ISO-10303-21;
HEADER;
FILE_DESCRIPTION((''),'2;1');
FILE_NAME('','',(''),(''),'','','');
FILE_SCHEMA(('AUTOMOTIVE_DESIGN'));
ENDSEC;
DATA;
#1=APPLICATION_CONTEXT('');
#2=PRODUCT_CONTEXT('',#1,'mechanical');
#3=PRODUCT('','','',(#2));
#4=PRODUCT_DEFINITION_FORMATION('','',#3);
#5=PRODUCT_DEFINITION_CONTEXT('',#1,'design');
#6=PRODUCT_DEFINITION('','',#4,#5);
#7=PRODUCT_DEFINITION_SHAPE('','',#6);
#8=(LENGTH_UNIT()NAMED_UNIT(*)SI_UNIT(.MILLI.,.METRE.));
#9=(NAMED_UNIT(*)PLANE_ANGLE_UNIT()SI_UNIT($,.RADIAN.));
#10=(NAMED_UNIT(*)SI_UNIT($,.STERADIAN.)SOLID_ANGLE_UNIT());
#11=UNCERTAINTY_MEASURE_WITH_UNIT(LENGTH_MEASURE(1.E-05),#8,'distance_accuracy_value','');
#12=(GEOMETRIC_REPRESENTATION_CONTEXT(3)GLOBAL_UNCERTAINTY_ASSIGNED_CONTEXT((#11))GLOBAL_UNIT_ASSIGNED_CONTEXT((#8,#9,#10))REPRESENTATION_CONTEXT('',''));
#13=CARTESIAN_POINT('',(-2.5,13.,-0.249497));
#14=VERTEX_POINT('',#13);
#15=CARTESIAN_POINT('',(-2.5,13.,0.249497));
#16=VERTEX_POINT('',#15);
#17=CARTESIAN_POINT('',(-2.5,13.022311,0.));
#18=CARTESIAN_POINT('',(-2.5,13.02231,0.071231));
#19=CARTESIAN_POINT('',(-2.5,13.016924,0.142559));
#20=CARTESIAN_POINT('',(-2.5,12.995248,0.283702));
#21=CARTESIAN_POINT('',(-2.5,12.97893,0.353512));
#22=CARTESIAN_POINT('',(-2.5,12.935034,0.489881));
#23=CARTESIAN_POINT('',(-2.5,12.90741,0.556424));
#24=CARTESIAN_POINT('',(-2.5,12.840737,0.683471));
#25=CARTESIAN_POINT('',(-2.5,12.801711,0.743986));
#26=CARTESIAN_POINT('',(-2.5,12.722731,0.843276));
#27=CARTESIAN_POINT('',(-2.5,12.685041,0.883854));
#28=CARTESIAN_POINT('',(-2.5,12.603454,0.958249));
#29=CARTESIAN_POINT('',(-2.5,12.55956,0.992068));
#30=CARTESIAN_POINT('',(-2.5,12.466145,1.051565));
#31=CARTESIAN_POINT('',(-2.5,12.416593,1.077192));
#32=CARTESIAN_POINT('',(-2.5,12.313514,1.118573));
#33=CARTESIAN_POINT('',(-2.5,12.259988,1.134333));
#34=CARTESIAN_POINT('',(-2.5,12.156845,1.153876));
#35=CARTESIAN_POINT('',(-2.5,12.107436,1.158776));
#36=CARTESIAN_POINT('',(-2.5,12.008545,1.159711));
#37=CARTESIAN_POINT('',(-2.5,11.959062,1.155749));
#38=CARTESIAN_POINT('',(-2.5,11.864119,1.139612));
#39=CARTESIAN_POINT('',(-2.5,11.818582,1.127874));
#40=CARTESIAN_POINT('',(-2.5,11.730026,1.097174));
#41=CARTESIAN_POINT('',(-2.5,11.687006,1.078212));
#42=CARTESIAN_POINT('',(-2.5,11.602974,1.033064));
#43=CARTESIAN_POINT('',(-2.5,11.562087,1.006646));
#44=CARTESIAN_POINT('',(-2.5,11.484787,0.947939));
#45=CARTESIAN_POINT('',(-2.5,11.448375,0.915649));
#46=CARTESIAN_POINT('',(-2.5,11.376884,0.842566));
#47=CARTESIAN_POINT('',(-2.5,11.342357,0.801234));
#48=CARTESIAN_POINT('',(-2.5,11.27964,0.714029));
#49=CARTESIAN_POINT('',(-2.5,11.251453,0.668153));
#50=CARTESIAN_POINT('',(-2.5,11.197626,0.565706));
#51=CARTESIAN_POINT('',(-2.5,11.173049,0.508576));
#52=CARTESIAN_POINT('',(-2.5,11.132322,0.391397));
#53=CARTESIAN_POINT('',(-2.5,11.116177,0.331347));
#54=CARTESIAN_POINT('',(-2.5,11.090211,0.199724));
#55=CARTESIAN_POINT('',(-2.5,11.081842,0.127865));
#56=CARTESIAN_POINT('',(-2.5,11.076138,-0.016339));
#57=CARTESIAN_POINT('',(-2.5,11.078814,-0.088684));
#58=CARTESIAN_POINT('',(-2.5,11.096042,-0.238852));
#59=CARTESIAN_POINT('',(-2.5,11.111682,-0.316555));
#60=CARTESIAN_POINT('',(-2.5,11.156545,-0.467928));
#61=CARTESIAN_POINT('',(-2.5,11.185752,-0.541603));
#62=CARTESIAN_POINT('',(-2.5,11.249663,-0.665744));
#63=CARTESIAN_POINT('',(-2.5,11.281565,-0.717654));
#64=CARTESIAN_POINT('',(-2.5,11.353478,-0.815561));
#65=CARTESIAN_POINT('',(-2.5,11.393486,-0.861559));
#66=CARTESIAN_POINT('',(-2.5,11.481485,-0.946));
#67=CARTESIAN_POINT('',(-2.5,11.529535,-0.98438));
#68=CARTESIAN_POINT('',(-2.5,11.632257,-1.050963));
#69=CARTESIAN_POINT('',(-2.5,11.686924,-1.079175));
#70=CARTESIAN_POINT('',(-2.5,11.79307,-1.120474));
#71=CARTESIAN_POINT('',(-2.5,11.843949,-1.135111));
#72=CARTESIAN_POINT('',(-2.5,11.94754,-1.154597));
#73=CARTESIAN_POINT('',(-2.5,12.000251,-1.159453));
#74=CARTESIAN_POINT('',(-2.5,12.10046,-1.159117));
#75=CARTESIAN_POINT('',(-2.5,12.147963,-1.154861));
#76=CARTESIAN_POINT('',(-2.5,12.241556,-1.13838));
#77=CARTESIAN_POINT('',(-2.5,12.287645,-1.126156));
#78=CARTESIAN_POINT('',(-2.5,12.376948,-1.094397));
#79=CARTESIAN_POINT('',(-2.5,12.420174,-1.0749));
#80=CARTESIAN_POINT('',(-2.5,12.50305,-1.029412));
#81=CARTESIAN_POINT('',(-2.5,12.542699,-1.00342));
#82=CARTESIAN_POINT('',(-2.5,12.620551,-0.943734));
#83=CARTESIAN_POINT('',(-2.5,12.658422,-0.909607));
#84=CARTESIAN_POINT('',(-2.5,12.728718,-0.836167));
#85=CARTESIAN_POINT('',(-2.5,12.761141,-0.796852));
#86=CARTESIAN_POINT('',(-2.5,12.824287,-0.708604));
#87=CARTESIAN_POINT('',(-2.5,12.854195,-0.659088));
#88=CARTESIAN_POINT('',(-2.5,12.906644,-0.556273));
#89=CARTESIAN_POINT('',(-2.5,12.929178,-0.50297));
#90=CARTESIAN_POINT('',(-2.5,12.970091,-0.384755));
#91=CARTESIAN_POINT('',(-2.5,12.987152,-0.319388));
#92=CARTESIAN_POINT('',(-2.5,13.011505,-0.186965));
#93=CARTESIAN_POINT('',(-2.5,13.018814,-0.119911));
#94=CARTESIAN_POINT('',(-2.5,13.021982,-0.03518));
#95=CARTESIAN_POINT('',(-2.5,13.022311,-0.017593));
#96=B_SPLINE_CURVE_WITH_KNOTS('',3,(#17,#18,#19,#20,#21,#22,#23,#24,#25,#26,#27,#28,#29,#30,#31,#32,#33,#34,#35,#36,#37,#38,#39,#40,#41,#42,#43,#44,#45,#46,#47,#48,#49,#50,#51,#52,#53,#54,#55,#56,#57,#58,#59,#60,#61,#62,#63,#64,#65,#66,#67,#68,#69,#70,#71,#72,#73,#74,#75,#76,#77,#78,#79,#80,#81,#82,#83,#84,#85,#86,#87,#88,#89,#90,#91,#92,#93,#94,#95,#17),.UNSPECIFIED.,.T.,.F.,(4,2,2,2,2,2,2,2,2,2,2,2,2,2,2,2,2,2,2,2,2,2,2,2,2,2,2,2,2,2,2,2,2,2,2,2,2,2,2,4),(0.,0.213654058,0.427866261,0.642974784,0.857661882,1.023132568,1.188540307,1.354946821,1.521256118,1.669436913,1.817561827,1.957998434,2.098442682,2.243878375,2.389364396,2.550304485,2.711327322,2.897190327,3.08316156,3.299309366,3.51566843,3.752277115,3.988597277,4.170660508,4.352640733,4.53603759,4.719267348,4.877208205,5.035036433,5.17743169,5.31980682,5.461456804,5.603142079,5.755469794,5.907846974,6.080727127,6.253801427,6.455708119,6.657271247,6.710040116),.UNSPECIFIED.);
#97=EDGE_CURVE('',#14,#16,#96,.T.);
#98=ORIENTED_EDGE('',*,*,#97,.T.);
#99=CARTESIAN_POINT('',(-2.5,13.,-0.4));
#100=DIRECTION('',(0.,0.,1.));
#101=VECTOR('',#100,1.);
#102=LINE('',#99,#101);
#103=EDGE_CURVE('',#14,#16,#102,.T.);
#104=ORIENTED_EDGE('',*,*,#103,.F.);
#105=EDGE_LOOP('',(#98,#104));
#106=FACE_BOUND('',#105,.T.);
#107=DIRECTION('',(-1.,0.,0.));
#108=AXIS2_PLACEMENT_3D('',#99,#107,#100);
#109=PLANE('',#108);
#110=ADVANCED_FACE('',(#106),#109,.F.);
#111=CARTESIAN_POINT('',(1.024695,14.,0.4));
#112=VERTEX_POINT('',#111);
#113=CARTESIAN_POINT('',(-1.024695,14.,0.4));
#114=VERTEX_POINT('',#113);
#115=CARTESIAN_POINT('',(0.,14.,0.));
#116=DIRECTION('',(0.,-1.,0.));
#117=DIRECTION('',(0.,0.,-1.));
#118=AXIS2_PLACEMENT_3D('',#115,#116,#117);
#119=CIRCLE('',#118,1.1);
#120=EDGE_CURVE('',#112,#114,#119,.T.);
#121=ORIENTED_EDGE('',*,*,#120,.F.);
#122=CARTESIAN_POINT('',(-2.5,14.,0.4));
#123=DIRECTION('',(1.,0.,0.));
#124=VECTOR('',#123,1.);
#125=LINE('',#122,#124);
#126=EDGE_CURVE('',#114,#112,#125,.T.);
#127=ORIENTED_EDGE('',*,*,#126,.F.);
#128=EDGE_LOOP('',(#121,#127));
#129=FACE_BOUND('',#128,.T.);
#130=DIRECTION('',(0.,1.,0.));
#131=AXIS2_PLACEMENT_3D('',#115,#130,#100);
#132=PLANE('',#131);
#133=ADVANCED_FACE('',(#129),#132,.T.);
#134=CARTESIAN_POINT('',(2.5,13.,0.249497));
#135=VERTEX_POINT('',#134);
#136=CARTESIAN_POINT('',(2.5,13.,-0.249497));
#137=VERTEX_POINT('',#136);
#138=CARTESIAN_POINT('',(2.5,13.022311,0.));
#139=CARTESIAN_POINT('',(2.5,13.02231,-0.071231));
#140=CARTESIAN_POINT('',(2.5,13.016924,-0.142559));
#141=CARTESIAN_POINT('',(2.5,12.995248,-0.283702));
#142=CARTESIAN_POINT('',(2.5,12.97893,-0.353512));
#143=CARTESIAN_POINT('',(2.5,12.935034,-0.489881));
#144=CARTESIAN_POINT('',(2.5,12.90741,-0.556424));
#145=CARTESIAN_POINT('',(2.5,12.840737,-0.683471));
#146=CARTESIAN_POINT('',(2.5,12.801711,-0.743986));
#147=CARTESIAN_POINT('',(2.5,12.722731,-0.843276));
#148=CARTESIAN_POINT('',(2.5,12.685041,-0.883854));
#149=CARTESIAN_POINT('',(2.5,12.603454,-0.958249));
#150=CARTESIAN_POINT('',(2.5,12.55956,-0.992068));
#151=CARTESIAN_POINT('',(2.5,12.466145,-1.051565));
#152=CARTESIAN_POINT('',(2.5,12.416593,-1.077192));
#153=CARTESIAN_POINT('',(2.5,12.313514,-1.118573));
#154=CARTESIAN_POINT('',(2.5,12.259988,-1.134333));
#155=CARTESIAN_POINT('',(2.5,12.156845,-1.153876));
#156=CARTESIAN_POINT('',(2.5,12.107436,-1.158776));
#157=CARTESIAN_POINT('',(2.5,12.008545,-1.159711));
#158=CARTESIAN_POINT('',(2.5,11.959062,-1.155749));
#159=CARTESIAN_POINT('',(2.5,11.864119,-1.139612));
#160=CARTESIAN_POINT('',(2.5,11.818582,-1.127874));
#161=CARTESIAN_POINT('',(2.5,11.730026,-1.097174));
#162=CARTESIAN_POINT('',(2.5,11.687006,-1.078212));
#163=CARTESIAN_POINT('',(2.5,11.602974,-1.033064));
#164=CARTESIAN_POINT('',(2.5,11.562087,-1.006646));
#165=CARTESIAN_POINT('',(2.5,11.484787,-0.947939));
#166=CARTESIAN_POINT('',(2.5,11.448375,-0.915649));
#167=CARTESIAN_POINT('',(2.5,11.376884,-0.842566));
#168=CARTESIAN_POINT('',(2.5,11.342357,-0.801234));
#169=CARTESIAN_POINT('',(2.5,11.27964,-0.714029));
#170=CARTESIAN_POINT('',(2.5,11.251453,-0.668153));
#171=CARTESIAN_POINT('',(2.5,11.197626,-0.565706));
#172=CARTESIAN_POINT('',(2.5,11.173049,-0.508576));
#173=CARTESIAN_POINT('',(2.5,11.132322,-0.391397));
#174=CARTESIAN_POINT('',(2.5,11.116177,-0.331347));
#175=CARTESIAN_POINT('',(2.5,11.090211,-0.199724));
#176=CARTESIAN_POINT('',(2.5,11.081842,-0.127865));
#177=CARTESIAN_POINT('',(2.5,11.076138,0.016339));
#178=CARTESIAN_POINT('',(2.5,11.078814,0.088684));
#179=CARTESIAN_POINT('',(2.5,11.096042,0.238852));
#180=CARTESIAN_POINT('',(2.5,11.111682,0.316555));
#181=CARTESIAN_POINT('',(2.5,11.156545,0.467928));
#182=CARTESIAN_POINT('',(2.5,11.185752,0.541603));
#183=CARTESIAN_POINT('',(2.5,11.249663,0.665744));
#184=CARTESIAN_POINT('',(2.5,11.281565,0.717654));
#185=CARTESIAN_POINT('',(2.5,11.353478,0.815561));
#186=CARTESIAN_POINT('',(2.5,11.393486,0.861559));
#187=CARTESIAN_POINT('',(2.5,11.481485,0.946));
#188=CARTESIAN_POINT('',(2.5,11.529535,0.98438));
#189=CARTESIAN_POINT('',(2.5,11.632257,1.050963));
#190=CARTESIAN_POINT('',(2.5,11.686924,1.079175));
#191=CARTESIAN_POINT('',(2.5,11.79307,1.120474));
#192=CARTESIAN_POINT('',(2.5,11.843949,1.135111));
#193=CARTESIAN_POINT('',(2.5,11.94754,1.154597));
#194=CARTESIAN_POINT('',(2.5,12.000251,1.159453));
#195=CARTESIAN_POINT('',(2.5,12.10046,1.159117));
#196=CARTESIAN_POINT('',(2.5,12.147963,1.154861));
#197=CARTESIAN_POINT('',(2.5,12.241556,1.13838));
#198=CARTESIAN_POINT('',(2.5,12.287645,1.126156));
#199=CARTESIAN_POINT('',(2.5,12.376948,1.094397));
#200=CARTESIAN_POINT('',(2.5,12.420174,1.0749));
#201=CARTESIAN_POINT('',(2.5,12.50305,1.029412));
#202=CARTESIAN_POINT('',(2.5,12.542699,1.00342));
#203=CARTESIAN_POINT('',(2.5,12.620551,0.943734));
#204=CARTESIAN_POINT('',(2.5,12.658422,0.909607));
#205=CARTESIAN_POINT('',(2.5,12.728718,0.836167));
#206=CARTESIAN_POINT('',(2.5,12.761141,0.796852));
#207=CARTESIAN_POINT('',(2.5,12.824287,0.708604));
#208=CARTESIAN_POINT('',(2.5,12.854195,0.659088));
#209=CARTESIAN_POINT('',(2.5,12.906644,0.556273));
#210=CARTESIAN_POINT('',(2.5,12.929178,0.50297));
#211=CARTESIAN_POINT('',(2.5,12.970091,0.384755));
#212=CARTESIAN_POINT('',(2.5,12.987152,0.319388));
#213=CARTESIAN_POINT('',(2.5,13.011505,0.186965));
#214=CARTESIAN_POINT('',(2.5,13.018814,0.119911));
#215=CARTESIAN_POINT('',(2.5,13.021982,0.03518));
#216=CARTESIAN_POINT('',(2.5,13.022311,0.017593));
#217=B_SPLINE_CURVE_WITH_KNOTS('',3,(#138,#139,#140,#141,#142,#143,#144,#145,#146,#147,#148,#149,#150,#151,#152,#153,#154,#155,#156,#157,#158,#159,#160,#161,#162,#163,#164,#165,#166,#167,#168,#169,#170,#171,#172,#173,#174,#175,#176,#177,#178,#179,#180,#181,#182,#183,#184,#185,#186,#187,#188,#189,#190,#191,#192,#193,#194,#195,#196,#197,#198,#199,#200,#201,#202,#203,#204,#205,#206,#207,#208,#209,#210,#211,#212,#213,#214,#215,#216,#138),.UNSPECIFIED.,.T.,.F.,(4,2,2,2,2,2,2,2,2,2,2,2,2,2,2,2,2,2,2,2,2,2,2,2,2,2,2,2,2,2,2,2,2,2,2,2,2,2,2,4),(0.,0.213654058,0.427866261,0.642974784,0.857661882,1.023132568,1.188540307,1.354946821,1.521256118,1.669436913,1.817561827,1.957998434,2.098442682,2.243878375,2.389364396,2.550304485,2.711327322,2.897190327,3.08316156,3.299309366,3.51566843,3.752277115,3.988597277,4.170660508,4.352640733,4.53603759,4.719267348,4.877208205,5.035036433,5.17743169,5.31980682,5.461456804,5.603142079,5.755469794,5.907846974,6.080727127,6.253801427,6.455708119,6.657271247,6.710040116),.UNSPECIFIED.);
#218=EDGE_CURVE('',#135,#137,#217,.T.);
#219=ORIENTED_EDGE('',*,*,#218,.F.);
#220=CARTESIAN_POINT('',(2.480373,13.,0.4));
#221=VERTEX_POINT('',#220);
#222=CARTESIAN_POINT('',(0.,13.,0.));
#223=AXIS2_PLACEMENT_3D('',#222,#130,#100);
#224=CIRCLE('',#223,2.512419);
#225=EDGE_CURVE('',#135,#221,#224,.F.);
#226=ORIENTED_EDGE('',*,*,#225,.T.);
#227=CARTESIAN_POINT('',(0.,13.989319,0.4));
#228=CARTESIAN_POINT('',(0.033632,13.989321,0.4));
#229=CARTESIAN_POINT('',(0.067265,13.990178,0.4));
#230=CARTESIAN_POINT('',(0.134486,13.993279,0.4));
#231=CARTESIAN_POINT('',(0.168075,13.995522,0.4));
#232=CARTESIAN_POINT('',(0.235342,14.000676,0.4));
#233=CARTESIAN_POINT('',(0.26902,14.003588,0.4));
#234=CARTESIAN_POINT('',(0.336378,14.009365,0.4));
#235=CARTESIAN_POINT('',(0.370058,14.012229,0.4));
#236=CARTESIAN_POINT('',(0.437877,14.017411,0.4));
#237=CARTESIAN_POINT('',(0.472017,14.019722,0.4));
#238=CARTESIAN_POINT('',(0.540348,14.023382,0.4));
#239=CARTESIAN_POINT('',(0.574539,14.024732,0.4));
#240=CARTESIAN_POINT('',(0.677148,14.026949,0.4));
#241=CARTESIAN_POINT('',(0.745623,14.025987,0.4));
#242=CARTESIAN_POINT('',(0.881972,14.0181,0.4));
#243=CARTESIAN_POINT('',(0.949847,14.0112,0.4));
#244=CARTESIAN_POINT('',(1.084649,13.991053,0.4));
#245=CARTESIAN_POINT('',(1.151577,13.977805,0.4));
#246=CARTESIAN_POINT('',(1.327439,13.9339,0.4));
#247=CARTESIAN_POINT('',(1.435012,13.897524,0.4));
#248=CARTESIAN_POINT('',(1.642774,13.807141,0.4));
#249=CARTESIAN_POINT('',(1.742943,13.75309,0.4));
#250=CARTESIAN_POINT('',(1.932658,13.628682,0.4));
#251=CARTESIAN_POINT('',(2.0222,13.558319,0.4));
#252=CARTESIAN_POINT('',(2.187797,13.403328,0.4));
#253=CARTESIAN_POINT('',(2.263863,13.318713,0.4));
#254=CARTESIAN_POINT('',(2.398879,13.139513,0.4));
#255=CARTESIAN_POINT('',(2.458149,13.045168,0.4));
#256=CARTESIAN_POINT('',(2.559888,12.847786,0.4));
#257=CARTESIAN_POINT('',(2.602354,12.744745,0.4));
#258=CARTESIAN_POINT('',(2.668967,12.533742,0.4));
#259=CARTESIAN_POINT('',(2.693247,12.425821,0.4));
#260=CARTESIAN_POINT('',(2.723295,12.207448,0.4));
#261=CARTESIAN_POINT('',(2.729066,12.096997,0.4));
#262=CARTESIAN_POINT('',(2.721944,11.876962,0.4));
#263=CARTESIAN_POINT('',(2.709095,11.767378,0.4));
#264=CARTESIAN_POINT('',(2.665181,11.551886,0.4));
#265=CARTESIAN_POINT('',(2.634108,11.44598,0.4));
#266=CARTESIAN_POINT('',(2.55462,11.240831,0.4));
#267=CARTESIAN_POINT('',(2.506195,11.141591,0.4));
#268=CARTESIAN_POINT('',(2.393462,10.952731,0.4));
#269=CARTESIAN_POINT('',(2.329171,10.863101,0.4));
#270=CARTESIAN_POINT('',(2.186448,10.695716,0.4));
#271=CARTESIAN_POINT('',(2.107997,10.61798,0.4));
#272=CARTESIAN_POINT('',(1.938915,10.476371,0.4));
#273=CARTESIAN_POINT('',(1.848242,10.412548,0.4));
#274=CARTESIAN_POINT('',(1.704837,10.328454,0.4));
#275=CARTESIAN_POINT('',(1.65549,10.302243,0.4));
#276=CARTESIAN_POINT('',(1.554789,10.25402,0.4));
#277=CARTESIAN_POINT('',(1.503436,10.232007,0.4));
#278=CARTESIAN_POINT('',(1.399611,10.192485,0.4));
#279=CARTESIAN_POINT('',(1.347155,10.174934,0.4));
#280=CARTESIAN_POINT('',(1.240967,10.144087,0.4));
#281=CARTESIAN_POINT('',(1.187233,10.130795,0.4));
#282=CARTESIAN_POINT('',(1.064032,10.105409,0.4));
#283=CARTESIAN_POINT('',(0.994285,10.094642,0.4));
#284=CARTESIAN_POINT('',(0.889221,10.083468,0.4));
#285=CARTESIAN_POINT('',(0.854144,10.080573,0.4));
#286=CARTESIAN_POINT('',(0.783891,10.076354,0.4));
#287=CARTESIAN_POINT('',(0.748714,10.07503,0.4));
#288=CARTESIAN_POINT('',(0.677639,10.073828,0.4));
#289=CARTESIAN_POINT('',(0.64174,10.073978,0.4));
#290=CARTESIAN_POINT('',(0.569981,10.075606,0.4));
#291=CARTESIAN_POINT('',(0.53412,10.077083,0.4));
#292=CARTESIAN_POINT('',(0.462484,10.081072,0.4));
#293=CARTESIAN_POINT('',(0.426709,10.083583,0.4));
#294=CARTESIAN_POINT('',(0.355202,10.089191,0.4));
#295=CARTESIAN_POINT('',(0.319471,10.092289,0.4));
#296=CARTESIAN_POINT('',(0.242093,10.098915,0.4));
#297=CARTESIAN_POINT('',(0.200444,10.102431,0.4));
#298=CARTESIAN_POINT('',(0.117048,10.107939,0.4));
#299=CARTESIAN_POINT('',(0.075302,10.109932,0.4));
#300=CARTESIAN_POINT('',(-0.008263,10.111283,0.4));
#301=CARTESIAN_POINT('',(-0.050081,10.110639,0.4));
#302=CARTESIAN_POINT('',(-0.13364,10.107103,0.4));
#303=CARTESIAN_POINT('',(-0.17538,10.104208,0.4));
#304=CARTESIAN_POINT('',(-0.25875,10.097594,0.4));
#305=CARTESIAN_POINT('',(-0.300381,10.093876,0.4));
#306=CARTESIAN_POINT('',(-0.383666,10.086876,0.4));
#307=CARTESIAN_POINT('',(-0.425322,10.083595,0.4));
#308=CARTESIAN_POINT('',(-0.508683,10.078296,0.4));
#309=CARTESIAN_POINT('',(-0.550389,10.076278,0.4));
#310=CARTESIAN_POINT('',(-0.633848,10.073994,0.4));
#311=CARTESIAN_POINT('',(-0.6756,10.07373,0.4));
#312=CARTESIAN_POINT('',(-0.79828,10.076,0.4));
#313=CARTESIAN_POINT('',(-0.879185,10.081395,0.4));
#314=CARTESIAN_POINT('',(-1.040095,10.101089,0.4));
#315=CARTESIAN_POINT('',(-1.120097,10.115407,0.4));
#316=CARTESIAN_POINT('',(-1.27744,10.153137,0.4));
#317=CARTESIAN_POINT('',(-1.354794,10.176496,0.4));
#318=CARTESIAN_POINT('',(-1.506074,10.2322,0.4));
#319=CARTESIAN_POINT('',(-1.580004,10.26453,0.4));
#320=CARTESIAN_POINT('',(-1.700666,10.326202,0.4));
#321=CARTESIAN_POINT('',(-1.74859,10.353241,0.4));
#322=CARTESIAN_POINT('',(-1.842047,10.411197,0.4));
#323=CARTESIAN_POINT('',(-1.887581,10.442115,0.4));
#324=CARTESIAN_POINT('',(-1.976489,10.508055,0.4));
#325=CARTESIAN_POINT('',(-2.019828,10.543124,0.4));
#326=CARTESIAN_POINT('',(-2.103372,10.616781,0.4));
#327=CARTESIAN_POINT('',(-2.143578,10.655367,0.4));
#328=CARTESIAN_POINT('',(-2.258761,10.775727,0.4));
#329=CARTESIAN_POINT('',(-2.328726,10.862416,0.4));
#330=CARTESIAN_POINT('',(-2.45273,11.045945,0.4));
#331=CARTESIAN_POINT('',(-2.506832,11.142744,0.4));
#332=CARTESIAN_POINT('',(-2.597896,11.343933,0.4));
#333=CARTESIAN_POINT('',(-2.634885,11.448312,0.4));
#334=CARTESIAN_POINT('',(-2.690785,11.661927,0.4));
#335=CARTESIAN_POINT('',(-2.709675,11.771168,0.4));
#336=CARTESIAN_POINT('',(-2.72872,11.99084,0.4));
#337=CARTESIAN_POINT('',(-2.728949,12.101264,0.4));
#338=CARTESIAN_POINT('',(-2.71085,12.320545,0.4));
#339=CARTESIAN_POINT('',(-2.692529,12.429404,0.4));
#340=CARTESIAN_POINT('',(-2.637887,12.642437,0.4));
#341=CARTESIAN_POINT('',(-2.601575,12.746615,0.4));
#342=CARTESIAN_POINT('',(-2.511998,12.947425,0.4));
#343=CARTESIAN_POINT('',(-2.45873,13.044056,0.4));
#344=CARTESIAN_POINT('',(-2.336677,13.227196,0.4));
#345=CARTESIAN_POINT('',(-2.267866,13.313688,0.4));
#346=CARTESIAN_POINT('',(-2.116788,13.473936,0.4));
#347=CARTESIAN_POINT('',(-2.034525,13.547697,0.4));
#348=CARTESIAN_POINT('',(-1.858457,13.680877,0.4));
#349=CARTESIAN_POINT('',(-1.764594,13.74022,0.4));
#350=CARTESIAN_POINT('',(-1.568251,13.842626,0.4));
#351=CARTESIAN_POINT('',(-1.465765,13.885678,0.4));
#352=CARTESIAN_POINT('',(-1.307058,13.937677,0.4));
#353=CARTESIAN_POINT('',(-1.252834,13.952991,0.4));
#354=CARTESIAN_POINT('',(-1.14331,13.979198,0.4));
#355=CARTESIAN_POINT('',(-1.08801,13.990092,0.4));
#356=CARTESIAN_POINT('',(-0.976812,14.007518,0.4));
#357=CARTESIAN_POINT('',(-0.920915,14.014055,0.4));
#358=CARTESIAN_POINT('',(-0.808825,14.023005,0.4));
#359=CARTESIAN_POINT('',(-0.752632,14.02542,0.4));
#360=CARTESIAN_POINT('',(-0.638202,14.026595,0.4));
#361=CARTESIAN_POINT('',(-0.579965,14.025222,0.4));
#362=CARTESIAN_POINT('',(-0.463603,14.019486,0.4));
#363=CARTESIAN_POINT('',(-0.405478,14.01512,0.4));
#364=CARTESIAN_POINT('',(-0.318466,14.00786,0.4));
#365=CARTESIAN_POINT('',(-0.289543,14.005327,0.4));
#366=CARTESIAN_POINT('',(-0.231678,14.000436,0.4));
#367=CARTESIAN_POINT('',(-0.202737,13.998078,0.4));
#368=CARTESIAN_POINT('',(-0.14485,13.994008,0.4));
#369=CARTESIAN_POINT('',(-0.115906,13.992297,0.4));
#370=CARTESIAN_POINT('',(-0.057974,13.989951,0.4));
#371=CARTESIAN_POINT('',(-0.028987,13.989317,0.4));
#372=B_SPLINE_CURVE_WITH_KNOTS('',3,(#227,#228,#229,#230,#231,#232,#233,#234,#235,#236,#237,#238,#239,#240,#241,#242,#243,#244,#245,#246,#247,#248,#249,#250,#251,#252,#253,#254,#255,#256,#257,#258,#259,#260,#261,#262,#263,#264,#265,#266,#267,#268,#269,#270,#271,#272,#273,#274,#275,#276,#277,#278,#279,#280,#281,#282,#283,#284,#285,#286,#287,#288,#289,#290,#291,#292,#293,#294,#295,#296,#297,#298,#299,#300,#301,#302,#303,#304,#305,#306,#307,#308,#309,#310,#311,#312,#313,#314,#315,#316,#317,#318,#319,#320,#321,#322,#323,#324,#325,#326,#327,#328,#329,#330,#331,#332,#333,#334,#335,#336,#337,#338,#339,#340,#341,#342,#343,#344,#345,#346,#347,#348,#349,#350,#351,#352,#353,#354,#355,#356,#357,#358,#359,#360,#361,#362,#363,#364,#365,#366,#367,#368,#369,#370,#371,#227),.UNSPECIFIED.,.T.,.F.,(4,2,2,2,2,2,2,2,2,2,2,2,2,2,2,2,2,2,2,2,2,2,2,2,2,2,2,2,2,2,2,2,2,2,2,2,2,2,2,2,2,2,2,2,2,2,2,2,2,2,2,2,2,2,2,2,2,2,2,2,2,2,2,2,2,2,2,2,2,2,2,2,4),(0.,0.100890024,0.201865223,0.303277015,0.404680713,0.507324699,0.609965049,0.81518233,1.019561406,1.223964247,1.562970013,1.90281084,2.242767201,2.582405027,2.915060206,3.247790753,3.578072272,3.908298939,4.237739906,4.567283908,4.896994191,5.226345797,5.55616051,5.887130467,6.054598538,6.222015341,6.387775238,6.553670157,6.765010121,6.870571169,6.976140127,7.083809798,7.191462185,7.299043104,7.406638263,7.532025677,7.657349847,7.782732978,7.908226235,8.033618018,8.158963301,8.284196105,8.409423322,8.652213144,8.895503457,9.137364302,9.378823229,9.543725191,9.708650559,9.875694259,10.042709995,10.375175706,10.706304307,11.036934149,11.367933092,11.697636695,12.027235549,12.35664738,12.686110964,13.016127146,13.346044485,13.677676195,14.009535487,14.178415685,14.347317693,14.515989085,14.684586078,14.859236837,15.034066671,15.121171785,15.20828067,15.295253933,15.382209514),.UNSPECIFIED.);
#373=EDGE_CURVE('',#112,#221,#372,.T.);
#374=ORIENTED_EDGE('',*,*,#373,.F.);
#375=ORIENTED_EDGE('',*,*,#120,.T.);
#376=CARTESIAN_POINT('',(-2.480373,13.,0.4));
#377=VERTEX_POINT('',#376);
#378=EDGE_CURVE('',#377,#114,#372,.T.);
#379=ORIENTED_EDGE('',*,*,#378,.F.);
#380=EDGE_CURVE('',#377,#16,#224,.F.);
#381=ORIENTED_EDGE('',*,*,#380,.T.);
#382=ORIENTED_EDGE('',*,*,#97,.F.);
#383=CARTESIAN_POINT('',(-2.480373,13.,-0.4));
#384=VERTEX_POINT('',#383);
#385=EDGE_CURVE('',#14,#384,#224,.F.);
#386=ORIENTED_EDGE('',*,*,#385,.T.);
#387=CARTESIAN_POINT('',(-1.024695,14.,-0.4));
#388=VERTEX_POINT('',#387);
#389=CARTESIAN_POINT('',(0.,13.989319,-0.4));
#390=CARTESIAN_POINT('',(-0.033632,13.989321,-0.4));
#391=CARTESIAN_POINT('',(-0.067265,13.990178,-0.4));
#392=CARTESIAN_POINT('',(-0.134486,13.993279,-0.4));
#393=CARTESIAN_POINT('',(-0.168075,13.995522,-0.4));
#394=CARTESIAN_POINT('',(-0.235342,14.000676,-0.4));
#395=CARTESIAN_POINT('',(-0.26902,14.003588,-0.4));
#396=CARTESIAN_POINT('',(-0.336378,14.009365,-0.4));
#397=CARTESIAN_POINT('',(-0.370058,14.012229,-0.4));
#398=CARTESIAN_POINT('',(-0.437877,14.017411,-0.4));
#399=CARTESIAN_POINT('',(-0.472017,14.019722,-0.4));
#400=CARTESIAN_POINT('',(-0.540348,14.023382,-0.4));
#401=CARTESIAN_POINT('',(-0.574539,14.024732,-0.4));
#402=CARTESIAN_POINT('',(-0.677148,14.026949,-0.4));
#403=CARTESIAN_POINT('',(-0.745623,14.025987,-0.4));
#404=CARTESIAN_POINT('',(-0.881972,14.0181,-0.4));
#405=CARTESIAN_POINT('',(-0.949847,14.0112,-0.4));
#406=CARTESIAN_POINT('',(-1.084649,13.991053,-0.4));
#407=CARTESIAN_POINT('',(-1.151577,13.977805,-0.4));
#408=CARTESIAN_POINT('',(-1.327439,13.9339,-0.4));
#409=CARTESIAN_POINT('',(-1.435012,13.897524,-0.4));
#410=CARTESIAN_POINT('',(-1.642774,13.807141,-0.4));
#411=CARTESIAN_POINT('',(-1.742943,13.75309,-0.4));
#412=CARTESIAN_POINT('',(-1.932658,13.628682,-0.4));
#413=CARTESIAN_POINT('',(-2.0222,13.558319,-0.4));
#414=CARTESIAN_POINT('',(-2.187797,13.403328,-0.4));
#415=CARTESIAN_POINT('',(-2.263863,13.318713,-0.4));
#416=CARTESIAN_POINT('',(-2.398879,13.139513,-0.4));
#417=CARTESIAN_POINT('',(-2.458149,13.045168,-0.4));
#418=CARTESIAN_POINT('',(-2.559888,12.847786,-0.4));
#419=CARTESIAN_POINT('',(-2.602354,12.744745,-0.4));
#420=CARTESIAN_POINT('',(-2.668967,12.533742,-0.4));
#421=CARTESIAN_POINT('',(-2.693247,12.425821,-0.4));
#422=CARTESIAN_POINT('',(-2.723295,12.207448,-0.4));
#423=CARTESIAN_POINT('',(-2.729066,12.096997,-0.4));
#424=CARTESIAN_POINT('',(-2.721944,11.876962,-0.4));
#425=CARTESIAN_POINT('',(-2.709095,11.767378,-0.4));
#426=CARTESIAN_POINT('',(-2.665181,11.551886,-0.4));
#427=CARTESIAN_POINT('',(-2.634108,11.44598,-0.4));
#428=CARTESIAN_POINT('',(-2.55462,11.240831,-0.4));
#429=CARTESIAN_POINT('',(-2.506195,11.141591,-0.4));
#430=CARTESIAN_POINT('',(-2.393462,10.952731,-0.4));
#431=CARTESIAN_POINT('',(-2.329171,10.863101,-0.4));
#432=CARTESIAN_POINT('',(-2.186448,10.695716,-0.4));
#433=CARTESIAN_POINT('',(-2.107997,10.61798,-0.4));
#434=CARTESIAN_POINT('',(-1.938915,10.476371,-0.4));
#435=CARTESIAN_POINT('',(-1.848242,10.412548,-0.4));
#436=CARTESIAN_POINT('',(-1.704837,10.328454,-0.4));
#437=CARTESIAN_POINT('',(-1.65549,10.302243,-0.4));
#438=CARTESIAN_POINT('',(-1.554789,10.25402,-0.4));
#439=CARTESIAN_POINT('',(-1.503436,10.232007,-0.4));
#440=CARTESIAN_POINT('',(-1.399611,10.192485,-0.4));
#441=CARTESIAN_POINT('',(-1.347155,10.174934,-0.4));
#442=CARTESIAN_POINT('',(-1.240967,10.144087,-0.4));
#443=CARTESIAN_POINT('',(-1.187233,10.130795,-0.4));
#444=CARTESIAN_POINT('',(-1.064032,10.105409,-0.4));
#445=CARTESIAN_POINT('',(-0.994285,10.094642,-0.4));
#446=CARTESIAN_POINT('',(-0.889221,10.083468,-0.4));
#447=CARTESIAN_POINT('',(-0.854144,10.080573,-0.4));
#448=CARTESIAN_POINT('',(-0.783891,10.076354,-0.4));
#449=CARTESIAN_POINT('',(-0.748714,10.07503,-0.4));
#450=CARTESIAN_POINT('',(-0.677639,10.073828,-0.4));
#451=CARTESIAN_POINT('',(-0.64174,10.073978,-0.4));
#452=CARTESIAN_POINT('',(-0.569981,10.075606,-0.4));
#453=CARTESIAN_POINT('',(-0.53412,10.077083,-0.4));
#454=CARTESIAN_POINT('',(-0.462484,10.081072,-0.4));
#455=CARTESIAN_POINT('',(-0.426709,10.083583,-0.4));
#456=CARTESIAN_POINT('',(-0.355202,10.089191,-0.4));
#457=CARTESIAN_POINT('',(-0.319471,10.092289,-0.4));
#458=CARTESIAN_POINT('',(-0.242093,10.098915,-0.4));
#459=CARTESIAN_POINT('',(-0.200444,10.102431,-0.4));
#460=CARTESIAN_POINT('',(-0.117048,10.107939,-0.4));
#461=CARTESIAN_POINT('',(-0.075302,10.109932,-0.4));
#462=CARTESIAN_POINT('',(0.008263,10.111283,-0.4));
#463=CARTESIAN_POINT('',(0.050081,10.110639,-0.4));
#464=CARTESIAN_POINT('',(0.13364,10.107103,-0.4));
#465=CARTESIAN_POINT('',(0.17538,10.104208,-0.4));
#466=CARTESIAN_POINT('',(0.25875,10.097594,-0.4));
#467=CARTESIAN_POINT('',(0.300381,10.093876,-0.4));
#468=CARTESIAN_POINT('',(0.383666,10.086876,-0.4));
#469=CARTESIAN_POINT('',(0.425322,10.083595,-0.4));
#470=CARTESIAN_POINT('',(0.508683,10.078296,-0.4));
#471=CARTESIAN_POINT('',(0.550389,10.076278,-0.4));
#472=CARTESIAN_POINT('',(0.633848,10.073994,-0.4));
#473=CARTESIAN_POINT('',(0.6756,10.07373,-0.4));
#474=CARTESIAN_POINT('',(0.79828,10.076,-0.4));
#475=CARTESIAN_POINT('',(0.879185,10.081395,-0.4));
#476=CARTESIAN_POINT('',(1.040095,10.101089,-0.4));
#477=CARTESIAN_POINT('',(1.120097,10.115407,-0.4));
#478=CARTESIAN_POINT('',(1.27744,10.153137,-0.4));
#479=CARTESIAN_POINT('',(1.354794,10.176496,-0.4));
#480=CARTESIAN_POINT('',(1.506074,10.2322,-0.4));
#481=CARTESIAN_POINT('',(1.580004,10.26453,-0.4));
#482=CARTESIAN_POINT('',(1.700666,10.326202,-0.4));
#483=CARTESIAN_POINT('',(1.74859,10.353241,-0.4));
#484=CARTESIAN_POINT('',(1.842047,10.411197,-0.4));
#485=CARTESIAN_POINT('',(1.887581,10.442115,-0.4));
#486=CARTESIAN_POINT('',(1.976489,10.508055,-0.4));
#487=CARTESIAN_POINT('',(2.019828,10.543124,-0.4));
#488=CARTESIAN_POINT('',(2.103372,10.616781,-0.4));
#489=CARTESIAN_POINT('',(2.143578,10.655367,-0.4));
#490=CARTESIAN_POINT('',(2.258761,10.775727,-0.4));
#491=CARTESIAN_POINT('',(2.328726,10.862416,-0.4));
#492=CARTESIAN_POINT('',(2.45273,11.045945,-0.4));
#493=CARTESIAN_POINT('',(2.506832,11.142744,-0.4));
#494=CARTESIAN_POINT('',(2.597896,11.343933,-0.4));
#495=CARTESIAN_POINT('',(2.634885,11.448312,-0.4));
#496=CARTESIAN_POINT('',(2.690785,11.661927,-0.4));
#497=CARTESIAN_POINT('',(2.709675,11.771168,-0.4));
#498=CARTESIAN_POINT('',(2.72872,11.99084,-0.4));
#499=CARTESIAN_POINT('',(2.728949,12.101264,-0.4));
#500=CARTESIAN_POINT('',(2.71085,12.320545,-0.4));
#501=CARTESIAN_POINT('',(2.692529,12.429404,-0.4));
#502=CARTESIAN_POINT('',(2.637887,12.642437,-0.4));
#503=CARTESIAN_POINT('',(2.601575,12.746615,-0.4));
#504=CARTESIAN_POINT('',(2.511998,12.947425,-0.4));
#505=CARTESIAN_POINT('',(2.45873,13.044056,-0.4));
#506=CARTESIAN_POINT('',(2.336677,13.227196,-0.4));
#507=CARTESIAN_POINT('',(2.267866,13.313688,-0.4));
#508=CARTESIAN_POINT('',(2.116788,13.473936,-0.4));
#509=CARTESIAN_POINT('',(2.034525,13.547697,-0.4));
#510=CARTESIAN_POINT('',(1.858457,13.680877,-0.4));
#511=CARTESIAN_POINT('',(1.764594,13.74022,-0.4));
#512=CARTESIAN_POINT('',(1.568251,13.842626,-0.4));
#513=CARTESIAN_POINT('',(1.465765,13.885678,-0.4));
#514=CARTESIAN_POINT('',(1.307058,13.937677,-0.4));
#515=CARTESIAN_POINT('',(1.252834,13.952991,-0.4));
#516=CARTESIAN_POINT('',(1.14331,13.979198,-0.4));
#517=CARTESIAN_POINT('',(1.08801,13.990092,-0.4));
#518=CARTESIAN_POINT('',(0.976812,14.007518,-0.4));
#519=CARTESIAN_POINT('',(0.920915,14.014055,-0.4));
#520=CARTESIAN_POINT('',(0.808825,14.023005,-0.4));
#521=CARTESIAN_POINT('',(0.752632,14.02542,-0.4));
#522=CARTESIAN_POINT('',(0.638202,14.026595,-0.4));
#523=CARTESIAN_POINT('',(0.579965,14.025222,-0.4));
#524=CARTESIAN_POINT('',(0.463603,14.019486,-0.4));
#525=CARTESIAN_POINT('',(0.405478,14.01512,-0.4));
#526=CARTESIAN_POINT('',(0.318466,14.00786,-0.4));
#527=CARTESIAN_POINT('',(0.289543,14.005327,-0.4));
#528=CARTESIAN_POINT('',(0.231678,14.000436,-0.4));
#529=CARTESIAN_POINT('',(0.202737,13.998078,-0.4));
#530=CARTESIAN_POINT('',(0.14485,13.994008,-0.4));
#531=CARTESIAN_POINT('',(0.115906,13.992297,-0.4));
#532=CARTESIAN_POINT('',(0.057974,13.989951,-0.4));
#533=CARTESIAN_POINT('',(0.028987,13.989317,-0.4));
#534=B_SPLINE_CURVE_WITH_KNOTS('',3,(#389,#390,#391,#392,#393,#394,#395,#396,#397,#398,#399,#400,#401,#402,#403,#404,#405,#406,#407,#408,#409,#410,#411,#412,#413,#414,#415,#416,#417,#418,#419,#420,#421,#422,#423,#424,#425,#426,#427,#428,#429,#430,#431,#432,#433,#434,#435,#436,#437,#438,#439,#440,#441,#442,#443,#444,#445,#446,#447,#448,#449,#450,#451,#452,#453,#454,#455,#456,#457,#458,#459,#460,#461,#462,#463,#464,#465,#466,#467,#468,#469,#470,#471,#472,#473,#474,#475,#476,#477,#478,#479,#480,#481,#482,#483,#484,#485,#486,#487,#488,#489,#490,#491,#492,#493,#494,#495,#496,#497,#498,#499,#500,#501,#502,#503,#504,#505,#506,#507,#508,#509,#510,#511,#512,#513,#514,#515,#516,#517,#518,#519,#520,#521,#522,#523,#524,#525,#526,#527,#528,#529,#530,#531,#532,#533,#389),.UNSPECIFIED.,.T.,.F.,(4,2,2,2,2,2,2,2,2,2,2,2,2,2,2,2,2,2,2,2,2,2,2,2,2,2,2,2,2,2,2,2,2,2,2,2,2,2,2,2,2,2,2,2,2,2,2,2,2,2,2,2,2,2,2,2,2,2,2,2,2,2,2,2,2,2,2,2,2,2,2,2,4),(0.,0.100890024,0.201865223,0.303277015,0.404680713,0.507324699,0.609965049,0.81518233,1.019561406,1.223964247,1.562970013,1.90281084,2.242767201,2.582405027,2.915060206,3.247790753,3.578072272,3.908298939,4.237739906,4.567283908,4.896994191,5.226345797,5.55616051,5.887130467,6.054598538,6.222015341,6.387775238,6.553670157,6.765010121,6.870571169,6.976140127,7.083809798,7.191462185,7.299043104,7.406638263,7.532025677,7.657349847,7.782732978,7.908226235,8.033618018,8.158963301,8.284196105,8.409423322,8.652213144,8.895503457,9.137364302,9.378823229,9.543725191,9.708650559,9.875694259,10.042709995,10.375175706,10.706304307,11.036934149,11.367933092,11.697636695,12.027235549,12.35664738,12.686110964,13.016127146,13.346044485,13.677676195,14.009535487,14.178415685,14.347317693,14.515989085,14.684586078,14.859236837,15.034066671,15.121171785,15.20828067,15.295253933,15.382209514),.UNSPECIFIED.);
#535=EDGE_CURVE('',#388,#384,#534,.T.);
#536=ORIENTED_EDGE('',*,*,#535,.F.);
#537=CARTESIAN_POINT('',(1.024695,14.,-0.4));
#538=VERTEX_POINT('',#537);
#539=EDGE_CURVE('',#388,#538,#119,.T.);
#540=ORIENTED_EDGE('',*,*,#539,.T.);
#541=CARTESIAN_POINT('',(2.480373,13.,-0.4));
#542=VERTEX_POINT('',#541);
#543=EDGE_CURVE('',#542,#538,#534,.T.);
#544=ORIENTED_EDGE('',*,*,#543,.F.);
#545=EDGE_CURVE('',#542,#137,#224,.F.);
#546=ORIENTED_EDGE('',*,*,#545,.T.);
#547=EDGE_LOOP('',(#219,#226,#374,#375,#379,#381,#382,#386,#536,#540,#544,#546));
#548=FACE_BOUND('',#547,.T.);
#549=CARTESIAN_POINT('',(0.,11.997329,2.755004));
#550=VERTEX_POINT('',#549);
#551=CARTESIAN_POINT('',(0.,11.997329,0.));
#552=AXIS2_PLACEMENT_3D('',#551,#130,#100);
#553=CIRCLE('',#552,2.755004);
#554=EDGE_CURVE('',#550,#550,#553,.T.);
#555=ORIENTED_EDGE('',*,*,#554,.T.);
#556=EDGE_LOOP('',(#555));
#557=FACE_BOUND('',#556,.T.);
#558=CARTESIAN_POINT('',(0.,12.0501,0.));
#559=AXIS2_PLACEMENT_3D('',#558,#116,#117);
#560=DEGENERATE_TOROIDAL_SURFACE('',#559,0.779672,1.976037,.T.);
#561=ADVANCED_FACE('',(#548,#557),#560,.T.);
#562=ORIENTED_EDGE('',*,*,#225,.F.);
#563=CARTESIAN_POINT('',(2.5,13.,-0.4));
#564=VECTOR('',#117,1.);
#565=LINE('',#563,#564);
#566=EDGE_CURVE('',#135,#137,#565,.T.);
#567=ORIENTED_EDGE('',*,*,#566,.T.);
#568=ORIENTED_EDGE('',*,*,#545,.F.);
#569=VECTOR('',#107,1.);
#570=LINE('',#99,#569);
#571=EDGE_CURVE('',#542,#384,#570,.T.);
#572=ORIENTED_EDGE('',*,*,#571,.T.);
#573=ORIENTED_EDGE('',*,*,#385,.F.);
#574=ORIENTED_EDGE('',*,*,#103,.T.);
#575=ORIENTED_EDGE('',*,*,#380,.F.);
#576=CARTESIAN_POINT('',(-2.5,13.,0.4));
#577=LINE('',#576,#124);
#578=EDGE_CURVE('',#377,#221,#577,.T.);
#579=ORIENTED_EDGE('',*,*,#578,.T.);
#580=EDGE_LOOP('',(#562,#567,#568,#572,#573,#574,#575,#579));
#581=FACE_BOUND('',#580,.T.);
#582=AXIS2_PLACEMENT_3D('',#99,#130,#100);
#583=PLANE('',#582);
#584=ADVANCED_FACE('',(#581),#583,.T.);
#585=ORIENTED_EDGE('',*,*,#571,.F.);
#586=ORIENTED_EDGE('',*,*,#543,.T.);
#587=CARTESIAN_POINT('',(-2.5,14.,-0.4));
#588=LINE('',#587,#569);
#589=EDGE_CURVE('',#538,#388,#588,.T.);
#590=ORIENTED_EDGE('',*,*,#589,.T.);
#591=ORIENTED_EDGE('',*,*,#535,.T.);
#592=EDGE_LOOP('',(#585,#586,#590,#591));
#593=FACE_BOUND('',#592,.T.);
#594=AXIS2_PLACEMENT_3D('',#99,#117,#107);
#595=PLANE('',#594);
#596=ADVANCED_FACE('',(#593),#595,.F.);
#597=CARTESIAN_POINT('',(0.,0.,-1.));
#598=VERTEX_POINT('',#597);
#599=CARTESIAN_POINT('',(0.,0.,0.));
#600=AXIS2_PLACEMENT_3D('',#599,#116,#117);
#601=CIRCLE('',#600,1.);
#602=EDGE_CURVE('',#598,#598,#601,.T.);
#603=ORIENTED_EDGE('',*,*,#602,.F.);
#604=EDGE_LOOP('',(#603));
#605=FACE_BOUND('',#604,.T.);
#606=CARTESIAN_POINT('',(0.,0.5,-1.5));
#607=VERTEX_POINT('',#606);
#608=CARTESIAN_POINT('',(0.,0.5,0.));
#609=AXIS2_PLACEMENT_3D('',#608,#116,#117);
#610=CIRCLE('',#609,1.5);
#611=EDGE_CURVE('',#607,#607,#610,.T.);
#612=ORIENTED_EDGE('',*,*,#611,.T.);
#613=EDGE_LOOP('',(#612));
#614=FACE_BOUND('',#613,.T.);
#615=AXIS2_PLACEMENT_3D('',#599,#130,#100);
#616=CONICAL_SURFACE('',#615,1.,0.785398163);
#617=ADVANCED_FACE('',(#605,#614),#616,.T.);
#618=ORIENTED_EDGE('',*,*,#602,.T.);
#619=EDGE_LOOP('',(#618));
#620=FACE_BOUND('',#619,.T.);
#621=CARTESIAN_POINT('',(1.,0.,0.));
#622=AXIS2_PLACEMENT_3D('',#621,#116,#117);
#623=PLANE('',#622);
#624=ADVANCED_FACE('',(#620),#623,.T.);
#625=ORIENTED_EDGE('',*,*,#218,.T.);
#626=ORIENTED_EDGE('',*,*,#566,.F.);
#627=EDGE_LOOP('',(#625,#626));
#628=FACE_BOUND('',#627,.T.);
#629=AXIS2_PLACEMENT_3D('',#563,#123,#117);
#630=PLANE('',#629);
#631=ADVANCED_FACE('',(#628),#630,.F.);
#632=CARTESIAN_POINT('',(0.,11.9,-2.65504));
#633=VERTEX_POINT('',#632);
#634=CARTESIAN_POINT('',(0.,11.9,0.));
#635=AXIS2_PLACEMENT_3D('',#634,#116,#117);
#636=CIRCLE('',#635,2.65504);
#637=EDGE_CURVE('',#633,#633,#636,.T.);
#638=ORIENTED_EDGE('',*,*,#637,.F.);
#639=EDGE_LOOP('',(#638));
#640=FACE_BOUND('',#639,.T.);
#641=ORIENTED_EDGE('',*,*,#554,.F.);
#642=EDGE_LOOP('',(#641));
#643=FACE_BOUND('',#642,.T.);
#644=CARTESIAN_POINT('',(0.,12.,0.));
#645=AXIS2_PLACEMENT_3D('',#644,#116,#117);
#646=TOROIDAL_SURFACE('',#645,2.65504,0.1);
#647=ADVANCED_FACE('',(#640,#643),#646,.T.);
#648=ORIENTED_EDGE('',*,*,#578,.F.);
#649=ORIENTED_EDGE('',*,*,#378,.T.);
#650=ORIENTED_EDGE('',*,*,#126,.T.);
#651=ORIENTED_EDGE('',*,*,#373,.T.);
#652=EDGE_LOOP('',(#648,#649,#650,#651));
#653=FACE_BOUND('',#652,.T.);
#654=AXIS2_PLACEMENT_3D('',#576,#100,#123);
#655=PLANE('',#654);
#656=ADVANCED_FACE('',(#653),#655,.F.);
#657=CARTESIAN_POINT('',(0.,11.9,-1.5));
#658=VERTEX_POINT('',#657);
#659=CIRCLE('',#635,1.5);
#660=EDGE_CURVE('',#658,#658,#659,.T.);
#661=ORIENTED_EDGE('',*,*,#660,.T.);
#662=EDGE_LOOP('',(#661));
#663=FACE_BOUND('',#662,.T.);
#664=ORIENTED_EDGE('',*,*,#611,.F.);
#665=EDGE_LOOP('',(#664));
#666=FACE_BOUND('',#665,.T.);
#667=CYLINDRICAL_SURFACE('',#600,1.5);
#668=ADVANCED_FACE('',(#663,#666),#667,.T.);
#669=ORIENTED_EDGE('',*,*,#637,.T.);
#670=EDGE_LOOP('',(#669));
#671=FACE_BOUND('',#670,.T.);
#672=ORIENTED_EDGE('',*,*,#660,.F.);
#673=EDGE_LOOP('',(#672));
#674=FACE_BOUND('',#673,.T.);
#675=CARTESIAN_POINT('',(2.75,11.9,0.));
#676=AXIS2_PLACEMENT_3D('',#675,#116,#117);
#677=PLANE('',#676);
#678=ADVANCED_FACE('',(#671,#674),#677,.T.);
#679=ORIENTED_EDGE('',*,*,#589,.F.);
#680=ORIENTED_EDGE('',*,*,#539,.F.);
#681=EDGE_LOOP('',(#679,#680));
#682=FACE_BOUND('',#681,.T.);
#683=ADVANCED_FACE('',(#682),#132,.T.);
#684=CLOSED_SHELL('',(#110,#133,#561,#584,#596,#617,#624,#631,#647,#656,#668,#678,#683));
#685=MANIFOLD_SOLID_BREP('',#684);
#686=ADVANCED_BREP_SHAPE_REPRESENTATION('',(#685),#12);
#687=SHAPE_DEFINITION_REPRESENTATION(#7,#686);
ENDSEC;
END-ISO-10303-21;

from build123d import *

# Parameters (mm, degrees)
FILLET_1_R          = 0.1
SKETCH_3_W          = 5
SKETCH_3_H          = 0.8
CUT_EXTRUDE_2_DEPTH = 1


with BuildPart() as part:
    # Эскиз1 → Повернуть1 (revolve)
    with BuildSketch(Plane.XY):
        with BuildLine():
            Line((2.75, 11.9), (1.5, 11.9))
            Line((1.5, 11.9), (1.5, 0.5))
            Line((1.5, 0.5), (1, 0))
            Line((1, 0), (0, 0))
            Line((0, 0), (0, 14))
            Line((0, 14), (1.1, 14))
            ThreePointArc((1.1, 14), (2.333466256, 13.270937772), (2.75, 11.9))
        make_face()
    revolve(axis=Axis((0, 0, 0), (0, 1, 0)))

    # Скругление1
    fillet_1_edges = [part.edges().sort_by_distance(p)[0] for p in [
        (-2.75, 11.9, 0),
    ]]
    fillet(fillet_1_edges, radius=FILLET_1_R)

    # Эскиз3 → Вырез-Вытянуть2 (cut)
    with BuildSketch(Plane(origin=(0, 14, 0), x_dir=(-1, 0, 0), z_dir=(0, 1, 0))):
        Rectangle(SKETCH_3_W, SKETCH_3_H)
    extrude(amount=-CUT_EXTRUDE_2_DEPTH, mode=Mode.SUBTRACT)


solid = part.part
